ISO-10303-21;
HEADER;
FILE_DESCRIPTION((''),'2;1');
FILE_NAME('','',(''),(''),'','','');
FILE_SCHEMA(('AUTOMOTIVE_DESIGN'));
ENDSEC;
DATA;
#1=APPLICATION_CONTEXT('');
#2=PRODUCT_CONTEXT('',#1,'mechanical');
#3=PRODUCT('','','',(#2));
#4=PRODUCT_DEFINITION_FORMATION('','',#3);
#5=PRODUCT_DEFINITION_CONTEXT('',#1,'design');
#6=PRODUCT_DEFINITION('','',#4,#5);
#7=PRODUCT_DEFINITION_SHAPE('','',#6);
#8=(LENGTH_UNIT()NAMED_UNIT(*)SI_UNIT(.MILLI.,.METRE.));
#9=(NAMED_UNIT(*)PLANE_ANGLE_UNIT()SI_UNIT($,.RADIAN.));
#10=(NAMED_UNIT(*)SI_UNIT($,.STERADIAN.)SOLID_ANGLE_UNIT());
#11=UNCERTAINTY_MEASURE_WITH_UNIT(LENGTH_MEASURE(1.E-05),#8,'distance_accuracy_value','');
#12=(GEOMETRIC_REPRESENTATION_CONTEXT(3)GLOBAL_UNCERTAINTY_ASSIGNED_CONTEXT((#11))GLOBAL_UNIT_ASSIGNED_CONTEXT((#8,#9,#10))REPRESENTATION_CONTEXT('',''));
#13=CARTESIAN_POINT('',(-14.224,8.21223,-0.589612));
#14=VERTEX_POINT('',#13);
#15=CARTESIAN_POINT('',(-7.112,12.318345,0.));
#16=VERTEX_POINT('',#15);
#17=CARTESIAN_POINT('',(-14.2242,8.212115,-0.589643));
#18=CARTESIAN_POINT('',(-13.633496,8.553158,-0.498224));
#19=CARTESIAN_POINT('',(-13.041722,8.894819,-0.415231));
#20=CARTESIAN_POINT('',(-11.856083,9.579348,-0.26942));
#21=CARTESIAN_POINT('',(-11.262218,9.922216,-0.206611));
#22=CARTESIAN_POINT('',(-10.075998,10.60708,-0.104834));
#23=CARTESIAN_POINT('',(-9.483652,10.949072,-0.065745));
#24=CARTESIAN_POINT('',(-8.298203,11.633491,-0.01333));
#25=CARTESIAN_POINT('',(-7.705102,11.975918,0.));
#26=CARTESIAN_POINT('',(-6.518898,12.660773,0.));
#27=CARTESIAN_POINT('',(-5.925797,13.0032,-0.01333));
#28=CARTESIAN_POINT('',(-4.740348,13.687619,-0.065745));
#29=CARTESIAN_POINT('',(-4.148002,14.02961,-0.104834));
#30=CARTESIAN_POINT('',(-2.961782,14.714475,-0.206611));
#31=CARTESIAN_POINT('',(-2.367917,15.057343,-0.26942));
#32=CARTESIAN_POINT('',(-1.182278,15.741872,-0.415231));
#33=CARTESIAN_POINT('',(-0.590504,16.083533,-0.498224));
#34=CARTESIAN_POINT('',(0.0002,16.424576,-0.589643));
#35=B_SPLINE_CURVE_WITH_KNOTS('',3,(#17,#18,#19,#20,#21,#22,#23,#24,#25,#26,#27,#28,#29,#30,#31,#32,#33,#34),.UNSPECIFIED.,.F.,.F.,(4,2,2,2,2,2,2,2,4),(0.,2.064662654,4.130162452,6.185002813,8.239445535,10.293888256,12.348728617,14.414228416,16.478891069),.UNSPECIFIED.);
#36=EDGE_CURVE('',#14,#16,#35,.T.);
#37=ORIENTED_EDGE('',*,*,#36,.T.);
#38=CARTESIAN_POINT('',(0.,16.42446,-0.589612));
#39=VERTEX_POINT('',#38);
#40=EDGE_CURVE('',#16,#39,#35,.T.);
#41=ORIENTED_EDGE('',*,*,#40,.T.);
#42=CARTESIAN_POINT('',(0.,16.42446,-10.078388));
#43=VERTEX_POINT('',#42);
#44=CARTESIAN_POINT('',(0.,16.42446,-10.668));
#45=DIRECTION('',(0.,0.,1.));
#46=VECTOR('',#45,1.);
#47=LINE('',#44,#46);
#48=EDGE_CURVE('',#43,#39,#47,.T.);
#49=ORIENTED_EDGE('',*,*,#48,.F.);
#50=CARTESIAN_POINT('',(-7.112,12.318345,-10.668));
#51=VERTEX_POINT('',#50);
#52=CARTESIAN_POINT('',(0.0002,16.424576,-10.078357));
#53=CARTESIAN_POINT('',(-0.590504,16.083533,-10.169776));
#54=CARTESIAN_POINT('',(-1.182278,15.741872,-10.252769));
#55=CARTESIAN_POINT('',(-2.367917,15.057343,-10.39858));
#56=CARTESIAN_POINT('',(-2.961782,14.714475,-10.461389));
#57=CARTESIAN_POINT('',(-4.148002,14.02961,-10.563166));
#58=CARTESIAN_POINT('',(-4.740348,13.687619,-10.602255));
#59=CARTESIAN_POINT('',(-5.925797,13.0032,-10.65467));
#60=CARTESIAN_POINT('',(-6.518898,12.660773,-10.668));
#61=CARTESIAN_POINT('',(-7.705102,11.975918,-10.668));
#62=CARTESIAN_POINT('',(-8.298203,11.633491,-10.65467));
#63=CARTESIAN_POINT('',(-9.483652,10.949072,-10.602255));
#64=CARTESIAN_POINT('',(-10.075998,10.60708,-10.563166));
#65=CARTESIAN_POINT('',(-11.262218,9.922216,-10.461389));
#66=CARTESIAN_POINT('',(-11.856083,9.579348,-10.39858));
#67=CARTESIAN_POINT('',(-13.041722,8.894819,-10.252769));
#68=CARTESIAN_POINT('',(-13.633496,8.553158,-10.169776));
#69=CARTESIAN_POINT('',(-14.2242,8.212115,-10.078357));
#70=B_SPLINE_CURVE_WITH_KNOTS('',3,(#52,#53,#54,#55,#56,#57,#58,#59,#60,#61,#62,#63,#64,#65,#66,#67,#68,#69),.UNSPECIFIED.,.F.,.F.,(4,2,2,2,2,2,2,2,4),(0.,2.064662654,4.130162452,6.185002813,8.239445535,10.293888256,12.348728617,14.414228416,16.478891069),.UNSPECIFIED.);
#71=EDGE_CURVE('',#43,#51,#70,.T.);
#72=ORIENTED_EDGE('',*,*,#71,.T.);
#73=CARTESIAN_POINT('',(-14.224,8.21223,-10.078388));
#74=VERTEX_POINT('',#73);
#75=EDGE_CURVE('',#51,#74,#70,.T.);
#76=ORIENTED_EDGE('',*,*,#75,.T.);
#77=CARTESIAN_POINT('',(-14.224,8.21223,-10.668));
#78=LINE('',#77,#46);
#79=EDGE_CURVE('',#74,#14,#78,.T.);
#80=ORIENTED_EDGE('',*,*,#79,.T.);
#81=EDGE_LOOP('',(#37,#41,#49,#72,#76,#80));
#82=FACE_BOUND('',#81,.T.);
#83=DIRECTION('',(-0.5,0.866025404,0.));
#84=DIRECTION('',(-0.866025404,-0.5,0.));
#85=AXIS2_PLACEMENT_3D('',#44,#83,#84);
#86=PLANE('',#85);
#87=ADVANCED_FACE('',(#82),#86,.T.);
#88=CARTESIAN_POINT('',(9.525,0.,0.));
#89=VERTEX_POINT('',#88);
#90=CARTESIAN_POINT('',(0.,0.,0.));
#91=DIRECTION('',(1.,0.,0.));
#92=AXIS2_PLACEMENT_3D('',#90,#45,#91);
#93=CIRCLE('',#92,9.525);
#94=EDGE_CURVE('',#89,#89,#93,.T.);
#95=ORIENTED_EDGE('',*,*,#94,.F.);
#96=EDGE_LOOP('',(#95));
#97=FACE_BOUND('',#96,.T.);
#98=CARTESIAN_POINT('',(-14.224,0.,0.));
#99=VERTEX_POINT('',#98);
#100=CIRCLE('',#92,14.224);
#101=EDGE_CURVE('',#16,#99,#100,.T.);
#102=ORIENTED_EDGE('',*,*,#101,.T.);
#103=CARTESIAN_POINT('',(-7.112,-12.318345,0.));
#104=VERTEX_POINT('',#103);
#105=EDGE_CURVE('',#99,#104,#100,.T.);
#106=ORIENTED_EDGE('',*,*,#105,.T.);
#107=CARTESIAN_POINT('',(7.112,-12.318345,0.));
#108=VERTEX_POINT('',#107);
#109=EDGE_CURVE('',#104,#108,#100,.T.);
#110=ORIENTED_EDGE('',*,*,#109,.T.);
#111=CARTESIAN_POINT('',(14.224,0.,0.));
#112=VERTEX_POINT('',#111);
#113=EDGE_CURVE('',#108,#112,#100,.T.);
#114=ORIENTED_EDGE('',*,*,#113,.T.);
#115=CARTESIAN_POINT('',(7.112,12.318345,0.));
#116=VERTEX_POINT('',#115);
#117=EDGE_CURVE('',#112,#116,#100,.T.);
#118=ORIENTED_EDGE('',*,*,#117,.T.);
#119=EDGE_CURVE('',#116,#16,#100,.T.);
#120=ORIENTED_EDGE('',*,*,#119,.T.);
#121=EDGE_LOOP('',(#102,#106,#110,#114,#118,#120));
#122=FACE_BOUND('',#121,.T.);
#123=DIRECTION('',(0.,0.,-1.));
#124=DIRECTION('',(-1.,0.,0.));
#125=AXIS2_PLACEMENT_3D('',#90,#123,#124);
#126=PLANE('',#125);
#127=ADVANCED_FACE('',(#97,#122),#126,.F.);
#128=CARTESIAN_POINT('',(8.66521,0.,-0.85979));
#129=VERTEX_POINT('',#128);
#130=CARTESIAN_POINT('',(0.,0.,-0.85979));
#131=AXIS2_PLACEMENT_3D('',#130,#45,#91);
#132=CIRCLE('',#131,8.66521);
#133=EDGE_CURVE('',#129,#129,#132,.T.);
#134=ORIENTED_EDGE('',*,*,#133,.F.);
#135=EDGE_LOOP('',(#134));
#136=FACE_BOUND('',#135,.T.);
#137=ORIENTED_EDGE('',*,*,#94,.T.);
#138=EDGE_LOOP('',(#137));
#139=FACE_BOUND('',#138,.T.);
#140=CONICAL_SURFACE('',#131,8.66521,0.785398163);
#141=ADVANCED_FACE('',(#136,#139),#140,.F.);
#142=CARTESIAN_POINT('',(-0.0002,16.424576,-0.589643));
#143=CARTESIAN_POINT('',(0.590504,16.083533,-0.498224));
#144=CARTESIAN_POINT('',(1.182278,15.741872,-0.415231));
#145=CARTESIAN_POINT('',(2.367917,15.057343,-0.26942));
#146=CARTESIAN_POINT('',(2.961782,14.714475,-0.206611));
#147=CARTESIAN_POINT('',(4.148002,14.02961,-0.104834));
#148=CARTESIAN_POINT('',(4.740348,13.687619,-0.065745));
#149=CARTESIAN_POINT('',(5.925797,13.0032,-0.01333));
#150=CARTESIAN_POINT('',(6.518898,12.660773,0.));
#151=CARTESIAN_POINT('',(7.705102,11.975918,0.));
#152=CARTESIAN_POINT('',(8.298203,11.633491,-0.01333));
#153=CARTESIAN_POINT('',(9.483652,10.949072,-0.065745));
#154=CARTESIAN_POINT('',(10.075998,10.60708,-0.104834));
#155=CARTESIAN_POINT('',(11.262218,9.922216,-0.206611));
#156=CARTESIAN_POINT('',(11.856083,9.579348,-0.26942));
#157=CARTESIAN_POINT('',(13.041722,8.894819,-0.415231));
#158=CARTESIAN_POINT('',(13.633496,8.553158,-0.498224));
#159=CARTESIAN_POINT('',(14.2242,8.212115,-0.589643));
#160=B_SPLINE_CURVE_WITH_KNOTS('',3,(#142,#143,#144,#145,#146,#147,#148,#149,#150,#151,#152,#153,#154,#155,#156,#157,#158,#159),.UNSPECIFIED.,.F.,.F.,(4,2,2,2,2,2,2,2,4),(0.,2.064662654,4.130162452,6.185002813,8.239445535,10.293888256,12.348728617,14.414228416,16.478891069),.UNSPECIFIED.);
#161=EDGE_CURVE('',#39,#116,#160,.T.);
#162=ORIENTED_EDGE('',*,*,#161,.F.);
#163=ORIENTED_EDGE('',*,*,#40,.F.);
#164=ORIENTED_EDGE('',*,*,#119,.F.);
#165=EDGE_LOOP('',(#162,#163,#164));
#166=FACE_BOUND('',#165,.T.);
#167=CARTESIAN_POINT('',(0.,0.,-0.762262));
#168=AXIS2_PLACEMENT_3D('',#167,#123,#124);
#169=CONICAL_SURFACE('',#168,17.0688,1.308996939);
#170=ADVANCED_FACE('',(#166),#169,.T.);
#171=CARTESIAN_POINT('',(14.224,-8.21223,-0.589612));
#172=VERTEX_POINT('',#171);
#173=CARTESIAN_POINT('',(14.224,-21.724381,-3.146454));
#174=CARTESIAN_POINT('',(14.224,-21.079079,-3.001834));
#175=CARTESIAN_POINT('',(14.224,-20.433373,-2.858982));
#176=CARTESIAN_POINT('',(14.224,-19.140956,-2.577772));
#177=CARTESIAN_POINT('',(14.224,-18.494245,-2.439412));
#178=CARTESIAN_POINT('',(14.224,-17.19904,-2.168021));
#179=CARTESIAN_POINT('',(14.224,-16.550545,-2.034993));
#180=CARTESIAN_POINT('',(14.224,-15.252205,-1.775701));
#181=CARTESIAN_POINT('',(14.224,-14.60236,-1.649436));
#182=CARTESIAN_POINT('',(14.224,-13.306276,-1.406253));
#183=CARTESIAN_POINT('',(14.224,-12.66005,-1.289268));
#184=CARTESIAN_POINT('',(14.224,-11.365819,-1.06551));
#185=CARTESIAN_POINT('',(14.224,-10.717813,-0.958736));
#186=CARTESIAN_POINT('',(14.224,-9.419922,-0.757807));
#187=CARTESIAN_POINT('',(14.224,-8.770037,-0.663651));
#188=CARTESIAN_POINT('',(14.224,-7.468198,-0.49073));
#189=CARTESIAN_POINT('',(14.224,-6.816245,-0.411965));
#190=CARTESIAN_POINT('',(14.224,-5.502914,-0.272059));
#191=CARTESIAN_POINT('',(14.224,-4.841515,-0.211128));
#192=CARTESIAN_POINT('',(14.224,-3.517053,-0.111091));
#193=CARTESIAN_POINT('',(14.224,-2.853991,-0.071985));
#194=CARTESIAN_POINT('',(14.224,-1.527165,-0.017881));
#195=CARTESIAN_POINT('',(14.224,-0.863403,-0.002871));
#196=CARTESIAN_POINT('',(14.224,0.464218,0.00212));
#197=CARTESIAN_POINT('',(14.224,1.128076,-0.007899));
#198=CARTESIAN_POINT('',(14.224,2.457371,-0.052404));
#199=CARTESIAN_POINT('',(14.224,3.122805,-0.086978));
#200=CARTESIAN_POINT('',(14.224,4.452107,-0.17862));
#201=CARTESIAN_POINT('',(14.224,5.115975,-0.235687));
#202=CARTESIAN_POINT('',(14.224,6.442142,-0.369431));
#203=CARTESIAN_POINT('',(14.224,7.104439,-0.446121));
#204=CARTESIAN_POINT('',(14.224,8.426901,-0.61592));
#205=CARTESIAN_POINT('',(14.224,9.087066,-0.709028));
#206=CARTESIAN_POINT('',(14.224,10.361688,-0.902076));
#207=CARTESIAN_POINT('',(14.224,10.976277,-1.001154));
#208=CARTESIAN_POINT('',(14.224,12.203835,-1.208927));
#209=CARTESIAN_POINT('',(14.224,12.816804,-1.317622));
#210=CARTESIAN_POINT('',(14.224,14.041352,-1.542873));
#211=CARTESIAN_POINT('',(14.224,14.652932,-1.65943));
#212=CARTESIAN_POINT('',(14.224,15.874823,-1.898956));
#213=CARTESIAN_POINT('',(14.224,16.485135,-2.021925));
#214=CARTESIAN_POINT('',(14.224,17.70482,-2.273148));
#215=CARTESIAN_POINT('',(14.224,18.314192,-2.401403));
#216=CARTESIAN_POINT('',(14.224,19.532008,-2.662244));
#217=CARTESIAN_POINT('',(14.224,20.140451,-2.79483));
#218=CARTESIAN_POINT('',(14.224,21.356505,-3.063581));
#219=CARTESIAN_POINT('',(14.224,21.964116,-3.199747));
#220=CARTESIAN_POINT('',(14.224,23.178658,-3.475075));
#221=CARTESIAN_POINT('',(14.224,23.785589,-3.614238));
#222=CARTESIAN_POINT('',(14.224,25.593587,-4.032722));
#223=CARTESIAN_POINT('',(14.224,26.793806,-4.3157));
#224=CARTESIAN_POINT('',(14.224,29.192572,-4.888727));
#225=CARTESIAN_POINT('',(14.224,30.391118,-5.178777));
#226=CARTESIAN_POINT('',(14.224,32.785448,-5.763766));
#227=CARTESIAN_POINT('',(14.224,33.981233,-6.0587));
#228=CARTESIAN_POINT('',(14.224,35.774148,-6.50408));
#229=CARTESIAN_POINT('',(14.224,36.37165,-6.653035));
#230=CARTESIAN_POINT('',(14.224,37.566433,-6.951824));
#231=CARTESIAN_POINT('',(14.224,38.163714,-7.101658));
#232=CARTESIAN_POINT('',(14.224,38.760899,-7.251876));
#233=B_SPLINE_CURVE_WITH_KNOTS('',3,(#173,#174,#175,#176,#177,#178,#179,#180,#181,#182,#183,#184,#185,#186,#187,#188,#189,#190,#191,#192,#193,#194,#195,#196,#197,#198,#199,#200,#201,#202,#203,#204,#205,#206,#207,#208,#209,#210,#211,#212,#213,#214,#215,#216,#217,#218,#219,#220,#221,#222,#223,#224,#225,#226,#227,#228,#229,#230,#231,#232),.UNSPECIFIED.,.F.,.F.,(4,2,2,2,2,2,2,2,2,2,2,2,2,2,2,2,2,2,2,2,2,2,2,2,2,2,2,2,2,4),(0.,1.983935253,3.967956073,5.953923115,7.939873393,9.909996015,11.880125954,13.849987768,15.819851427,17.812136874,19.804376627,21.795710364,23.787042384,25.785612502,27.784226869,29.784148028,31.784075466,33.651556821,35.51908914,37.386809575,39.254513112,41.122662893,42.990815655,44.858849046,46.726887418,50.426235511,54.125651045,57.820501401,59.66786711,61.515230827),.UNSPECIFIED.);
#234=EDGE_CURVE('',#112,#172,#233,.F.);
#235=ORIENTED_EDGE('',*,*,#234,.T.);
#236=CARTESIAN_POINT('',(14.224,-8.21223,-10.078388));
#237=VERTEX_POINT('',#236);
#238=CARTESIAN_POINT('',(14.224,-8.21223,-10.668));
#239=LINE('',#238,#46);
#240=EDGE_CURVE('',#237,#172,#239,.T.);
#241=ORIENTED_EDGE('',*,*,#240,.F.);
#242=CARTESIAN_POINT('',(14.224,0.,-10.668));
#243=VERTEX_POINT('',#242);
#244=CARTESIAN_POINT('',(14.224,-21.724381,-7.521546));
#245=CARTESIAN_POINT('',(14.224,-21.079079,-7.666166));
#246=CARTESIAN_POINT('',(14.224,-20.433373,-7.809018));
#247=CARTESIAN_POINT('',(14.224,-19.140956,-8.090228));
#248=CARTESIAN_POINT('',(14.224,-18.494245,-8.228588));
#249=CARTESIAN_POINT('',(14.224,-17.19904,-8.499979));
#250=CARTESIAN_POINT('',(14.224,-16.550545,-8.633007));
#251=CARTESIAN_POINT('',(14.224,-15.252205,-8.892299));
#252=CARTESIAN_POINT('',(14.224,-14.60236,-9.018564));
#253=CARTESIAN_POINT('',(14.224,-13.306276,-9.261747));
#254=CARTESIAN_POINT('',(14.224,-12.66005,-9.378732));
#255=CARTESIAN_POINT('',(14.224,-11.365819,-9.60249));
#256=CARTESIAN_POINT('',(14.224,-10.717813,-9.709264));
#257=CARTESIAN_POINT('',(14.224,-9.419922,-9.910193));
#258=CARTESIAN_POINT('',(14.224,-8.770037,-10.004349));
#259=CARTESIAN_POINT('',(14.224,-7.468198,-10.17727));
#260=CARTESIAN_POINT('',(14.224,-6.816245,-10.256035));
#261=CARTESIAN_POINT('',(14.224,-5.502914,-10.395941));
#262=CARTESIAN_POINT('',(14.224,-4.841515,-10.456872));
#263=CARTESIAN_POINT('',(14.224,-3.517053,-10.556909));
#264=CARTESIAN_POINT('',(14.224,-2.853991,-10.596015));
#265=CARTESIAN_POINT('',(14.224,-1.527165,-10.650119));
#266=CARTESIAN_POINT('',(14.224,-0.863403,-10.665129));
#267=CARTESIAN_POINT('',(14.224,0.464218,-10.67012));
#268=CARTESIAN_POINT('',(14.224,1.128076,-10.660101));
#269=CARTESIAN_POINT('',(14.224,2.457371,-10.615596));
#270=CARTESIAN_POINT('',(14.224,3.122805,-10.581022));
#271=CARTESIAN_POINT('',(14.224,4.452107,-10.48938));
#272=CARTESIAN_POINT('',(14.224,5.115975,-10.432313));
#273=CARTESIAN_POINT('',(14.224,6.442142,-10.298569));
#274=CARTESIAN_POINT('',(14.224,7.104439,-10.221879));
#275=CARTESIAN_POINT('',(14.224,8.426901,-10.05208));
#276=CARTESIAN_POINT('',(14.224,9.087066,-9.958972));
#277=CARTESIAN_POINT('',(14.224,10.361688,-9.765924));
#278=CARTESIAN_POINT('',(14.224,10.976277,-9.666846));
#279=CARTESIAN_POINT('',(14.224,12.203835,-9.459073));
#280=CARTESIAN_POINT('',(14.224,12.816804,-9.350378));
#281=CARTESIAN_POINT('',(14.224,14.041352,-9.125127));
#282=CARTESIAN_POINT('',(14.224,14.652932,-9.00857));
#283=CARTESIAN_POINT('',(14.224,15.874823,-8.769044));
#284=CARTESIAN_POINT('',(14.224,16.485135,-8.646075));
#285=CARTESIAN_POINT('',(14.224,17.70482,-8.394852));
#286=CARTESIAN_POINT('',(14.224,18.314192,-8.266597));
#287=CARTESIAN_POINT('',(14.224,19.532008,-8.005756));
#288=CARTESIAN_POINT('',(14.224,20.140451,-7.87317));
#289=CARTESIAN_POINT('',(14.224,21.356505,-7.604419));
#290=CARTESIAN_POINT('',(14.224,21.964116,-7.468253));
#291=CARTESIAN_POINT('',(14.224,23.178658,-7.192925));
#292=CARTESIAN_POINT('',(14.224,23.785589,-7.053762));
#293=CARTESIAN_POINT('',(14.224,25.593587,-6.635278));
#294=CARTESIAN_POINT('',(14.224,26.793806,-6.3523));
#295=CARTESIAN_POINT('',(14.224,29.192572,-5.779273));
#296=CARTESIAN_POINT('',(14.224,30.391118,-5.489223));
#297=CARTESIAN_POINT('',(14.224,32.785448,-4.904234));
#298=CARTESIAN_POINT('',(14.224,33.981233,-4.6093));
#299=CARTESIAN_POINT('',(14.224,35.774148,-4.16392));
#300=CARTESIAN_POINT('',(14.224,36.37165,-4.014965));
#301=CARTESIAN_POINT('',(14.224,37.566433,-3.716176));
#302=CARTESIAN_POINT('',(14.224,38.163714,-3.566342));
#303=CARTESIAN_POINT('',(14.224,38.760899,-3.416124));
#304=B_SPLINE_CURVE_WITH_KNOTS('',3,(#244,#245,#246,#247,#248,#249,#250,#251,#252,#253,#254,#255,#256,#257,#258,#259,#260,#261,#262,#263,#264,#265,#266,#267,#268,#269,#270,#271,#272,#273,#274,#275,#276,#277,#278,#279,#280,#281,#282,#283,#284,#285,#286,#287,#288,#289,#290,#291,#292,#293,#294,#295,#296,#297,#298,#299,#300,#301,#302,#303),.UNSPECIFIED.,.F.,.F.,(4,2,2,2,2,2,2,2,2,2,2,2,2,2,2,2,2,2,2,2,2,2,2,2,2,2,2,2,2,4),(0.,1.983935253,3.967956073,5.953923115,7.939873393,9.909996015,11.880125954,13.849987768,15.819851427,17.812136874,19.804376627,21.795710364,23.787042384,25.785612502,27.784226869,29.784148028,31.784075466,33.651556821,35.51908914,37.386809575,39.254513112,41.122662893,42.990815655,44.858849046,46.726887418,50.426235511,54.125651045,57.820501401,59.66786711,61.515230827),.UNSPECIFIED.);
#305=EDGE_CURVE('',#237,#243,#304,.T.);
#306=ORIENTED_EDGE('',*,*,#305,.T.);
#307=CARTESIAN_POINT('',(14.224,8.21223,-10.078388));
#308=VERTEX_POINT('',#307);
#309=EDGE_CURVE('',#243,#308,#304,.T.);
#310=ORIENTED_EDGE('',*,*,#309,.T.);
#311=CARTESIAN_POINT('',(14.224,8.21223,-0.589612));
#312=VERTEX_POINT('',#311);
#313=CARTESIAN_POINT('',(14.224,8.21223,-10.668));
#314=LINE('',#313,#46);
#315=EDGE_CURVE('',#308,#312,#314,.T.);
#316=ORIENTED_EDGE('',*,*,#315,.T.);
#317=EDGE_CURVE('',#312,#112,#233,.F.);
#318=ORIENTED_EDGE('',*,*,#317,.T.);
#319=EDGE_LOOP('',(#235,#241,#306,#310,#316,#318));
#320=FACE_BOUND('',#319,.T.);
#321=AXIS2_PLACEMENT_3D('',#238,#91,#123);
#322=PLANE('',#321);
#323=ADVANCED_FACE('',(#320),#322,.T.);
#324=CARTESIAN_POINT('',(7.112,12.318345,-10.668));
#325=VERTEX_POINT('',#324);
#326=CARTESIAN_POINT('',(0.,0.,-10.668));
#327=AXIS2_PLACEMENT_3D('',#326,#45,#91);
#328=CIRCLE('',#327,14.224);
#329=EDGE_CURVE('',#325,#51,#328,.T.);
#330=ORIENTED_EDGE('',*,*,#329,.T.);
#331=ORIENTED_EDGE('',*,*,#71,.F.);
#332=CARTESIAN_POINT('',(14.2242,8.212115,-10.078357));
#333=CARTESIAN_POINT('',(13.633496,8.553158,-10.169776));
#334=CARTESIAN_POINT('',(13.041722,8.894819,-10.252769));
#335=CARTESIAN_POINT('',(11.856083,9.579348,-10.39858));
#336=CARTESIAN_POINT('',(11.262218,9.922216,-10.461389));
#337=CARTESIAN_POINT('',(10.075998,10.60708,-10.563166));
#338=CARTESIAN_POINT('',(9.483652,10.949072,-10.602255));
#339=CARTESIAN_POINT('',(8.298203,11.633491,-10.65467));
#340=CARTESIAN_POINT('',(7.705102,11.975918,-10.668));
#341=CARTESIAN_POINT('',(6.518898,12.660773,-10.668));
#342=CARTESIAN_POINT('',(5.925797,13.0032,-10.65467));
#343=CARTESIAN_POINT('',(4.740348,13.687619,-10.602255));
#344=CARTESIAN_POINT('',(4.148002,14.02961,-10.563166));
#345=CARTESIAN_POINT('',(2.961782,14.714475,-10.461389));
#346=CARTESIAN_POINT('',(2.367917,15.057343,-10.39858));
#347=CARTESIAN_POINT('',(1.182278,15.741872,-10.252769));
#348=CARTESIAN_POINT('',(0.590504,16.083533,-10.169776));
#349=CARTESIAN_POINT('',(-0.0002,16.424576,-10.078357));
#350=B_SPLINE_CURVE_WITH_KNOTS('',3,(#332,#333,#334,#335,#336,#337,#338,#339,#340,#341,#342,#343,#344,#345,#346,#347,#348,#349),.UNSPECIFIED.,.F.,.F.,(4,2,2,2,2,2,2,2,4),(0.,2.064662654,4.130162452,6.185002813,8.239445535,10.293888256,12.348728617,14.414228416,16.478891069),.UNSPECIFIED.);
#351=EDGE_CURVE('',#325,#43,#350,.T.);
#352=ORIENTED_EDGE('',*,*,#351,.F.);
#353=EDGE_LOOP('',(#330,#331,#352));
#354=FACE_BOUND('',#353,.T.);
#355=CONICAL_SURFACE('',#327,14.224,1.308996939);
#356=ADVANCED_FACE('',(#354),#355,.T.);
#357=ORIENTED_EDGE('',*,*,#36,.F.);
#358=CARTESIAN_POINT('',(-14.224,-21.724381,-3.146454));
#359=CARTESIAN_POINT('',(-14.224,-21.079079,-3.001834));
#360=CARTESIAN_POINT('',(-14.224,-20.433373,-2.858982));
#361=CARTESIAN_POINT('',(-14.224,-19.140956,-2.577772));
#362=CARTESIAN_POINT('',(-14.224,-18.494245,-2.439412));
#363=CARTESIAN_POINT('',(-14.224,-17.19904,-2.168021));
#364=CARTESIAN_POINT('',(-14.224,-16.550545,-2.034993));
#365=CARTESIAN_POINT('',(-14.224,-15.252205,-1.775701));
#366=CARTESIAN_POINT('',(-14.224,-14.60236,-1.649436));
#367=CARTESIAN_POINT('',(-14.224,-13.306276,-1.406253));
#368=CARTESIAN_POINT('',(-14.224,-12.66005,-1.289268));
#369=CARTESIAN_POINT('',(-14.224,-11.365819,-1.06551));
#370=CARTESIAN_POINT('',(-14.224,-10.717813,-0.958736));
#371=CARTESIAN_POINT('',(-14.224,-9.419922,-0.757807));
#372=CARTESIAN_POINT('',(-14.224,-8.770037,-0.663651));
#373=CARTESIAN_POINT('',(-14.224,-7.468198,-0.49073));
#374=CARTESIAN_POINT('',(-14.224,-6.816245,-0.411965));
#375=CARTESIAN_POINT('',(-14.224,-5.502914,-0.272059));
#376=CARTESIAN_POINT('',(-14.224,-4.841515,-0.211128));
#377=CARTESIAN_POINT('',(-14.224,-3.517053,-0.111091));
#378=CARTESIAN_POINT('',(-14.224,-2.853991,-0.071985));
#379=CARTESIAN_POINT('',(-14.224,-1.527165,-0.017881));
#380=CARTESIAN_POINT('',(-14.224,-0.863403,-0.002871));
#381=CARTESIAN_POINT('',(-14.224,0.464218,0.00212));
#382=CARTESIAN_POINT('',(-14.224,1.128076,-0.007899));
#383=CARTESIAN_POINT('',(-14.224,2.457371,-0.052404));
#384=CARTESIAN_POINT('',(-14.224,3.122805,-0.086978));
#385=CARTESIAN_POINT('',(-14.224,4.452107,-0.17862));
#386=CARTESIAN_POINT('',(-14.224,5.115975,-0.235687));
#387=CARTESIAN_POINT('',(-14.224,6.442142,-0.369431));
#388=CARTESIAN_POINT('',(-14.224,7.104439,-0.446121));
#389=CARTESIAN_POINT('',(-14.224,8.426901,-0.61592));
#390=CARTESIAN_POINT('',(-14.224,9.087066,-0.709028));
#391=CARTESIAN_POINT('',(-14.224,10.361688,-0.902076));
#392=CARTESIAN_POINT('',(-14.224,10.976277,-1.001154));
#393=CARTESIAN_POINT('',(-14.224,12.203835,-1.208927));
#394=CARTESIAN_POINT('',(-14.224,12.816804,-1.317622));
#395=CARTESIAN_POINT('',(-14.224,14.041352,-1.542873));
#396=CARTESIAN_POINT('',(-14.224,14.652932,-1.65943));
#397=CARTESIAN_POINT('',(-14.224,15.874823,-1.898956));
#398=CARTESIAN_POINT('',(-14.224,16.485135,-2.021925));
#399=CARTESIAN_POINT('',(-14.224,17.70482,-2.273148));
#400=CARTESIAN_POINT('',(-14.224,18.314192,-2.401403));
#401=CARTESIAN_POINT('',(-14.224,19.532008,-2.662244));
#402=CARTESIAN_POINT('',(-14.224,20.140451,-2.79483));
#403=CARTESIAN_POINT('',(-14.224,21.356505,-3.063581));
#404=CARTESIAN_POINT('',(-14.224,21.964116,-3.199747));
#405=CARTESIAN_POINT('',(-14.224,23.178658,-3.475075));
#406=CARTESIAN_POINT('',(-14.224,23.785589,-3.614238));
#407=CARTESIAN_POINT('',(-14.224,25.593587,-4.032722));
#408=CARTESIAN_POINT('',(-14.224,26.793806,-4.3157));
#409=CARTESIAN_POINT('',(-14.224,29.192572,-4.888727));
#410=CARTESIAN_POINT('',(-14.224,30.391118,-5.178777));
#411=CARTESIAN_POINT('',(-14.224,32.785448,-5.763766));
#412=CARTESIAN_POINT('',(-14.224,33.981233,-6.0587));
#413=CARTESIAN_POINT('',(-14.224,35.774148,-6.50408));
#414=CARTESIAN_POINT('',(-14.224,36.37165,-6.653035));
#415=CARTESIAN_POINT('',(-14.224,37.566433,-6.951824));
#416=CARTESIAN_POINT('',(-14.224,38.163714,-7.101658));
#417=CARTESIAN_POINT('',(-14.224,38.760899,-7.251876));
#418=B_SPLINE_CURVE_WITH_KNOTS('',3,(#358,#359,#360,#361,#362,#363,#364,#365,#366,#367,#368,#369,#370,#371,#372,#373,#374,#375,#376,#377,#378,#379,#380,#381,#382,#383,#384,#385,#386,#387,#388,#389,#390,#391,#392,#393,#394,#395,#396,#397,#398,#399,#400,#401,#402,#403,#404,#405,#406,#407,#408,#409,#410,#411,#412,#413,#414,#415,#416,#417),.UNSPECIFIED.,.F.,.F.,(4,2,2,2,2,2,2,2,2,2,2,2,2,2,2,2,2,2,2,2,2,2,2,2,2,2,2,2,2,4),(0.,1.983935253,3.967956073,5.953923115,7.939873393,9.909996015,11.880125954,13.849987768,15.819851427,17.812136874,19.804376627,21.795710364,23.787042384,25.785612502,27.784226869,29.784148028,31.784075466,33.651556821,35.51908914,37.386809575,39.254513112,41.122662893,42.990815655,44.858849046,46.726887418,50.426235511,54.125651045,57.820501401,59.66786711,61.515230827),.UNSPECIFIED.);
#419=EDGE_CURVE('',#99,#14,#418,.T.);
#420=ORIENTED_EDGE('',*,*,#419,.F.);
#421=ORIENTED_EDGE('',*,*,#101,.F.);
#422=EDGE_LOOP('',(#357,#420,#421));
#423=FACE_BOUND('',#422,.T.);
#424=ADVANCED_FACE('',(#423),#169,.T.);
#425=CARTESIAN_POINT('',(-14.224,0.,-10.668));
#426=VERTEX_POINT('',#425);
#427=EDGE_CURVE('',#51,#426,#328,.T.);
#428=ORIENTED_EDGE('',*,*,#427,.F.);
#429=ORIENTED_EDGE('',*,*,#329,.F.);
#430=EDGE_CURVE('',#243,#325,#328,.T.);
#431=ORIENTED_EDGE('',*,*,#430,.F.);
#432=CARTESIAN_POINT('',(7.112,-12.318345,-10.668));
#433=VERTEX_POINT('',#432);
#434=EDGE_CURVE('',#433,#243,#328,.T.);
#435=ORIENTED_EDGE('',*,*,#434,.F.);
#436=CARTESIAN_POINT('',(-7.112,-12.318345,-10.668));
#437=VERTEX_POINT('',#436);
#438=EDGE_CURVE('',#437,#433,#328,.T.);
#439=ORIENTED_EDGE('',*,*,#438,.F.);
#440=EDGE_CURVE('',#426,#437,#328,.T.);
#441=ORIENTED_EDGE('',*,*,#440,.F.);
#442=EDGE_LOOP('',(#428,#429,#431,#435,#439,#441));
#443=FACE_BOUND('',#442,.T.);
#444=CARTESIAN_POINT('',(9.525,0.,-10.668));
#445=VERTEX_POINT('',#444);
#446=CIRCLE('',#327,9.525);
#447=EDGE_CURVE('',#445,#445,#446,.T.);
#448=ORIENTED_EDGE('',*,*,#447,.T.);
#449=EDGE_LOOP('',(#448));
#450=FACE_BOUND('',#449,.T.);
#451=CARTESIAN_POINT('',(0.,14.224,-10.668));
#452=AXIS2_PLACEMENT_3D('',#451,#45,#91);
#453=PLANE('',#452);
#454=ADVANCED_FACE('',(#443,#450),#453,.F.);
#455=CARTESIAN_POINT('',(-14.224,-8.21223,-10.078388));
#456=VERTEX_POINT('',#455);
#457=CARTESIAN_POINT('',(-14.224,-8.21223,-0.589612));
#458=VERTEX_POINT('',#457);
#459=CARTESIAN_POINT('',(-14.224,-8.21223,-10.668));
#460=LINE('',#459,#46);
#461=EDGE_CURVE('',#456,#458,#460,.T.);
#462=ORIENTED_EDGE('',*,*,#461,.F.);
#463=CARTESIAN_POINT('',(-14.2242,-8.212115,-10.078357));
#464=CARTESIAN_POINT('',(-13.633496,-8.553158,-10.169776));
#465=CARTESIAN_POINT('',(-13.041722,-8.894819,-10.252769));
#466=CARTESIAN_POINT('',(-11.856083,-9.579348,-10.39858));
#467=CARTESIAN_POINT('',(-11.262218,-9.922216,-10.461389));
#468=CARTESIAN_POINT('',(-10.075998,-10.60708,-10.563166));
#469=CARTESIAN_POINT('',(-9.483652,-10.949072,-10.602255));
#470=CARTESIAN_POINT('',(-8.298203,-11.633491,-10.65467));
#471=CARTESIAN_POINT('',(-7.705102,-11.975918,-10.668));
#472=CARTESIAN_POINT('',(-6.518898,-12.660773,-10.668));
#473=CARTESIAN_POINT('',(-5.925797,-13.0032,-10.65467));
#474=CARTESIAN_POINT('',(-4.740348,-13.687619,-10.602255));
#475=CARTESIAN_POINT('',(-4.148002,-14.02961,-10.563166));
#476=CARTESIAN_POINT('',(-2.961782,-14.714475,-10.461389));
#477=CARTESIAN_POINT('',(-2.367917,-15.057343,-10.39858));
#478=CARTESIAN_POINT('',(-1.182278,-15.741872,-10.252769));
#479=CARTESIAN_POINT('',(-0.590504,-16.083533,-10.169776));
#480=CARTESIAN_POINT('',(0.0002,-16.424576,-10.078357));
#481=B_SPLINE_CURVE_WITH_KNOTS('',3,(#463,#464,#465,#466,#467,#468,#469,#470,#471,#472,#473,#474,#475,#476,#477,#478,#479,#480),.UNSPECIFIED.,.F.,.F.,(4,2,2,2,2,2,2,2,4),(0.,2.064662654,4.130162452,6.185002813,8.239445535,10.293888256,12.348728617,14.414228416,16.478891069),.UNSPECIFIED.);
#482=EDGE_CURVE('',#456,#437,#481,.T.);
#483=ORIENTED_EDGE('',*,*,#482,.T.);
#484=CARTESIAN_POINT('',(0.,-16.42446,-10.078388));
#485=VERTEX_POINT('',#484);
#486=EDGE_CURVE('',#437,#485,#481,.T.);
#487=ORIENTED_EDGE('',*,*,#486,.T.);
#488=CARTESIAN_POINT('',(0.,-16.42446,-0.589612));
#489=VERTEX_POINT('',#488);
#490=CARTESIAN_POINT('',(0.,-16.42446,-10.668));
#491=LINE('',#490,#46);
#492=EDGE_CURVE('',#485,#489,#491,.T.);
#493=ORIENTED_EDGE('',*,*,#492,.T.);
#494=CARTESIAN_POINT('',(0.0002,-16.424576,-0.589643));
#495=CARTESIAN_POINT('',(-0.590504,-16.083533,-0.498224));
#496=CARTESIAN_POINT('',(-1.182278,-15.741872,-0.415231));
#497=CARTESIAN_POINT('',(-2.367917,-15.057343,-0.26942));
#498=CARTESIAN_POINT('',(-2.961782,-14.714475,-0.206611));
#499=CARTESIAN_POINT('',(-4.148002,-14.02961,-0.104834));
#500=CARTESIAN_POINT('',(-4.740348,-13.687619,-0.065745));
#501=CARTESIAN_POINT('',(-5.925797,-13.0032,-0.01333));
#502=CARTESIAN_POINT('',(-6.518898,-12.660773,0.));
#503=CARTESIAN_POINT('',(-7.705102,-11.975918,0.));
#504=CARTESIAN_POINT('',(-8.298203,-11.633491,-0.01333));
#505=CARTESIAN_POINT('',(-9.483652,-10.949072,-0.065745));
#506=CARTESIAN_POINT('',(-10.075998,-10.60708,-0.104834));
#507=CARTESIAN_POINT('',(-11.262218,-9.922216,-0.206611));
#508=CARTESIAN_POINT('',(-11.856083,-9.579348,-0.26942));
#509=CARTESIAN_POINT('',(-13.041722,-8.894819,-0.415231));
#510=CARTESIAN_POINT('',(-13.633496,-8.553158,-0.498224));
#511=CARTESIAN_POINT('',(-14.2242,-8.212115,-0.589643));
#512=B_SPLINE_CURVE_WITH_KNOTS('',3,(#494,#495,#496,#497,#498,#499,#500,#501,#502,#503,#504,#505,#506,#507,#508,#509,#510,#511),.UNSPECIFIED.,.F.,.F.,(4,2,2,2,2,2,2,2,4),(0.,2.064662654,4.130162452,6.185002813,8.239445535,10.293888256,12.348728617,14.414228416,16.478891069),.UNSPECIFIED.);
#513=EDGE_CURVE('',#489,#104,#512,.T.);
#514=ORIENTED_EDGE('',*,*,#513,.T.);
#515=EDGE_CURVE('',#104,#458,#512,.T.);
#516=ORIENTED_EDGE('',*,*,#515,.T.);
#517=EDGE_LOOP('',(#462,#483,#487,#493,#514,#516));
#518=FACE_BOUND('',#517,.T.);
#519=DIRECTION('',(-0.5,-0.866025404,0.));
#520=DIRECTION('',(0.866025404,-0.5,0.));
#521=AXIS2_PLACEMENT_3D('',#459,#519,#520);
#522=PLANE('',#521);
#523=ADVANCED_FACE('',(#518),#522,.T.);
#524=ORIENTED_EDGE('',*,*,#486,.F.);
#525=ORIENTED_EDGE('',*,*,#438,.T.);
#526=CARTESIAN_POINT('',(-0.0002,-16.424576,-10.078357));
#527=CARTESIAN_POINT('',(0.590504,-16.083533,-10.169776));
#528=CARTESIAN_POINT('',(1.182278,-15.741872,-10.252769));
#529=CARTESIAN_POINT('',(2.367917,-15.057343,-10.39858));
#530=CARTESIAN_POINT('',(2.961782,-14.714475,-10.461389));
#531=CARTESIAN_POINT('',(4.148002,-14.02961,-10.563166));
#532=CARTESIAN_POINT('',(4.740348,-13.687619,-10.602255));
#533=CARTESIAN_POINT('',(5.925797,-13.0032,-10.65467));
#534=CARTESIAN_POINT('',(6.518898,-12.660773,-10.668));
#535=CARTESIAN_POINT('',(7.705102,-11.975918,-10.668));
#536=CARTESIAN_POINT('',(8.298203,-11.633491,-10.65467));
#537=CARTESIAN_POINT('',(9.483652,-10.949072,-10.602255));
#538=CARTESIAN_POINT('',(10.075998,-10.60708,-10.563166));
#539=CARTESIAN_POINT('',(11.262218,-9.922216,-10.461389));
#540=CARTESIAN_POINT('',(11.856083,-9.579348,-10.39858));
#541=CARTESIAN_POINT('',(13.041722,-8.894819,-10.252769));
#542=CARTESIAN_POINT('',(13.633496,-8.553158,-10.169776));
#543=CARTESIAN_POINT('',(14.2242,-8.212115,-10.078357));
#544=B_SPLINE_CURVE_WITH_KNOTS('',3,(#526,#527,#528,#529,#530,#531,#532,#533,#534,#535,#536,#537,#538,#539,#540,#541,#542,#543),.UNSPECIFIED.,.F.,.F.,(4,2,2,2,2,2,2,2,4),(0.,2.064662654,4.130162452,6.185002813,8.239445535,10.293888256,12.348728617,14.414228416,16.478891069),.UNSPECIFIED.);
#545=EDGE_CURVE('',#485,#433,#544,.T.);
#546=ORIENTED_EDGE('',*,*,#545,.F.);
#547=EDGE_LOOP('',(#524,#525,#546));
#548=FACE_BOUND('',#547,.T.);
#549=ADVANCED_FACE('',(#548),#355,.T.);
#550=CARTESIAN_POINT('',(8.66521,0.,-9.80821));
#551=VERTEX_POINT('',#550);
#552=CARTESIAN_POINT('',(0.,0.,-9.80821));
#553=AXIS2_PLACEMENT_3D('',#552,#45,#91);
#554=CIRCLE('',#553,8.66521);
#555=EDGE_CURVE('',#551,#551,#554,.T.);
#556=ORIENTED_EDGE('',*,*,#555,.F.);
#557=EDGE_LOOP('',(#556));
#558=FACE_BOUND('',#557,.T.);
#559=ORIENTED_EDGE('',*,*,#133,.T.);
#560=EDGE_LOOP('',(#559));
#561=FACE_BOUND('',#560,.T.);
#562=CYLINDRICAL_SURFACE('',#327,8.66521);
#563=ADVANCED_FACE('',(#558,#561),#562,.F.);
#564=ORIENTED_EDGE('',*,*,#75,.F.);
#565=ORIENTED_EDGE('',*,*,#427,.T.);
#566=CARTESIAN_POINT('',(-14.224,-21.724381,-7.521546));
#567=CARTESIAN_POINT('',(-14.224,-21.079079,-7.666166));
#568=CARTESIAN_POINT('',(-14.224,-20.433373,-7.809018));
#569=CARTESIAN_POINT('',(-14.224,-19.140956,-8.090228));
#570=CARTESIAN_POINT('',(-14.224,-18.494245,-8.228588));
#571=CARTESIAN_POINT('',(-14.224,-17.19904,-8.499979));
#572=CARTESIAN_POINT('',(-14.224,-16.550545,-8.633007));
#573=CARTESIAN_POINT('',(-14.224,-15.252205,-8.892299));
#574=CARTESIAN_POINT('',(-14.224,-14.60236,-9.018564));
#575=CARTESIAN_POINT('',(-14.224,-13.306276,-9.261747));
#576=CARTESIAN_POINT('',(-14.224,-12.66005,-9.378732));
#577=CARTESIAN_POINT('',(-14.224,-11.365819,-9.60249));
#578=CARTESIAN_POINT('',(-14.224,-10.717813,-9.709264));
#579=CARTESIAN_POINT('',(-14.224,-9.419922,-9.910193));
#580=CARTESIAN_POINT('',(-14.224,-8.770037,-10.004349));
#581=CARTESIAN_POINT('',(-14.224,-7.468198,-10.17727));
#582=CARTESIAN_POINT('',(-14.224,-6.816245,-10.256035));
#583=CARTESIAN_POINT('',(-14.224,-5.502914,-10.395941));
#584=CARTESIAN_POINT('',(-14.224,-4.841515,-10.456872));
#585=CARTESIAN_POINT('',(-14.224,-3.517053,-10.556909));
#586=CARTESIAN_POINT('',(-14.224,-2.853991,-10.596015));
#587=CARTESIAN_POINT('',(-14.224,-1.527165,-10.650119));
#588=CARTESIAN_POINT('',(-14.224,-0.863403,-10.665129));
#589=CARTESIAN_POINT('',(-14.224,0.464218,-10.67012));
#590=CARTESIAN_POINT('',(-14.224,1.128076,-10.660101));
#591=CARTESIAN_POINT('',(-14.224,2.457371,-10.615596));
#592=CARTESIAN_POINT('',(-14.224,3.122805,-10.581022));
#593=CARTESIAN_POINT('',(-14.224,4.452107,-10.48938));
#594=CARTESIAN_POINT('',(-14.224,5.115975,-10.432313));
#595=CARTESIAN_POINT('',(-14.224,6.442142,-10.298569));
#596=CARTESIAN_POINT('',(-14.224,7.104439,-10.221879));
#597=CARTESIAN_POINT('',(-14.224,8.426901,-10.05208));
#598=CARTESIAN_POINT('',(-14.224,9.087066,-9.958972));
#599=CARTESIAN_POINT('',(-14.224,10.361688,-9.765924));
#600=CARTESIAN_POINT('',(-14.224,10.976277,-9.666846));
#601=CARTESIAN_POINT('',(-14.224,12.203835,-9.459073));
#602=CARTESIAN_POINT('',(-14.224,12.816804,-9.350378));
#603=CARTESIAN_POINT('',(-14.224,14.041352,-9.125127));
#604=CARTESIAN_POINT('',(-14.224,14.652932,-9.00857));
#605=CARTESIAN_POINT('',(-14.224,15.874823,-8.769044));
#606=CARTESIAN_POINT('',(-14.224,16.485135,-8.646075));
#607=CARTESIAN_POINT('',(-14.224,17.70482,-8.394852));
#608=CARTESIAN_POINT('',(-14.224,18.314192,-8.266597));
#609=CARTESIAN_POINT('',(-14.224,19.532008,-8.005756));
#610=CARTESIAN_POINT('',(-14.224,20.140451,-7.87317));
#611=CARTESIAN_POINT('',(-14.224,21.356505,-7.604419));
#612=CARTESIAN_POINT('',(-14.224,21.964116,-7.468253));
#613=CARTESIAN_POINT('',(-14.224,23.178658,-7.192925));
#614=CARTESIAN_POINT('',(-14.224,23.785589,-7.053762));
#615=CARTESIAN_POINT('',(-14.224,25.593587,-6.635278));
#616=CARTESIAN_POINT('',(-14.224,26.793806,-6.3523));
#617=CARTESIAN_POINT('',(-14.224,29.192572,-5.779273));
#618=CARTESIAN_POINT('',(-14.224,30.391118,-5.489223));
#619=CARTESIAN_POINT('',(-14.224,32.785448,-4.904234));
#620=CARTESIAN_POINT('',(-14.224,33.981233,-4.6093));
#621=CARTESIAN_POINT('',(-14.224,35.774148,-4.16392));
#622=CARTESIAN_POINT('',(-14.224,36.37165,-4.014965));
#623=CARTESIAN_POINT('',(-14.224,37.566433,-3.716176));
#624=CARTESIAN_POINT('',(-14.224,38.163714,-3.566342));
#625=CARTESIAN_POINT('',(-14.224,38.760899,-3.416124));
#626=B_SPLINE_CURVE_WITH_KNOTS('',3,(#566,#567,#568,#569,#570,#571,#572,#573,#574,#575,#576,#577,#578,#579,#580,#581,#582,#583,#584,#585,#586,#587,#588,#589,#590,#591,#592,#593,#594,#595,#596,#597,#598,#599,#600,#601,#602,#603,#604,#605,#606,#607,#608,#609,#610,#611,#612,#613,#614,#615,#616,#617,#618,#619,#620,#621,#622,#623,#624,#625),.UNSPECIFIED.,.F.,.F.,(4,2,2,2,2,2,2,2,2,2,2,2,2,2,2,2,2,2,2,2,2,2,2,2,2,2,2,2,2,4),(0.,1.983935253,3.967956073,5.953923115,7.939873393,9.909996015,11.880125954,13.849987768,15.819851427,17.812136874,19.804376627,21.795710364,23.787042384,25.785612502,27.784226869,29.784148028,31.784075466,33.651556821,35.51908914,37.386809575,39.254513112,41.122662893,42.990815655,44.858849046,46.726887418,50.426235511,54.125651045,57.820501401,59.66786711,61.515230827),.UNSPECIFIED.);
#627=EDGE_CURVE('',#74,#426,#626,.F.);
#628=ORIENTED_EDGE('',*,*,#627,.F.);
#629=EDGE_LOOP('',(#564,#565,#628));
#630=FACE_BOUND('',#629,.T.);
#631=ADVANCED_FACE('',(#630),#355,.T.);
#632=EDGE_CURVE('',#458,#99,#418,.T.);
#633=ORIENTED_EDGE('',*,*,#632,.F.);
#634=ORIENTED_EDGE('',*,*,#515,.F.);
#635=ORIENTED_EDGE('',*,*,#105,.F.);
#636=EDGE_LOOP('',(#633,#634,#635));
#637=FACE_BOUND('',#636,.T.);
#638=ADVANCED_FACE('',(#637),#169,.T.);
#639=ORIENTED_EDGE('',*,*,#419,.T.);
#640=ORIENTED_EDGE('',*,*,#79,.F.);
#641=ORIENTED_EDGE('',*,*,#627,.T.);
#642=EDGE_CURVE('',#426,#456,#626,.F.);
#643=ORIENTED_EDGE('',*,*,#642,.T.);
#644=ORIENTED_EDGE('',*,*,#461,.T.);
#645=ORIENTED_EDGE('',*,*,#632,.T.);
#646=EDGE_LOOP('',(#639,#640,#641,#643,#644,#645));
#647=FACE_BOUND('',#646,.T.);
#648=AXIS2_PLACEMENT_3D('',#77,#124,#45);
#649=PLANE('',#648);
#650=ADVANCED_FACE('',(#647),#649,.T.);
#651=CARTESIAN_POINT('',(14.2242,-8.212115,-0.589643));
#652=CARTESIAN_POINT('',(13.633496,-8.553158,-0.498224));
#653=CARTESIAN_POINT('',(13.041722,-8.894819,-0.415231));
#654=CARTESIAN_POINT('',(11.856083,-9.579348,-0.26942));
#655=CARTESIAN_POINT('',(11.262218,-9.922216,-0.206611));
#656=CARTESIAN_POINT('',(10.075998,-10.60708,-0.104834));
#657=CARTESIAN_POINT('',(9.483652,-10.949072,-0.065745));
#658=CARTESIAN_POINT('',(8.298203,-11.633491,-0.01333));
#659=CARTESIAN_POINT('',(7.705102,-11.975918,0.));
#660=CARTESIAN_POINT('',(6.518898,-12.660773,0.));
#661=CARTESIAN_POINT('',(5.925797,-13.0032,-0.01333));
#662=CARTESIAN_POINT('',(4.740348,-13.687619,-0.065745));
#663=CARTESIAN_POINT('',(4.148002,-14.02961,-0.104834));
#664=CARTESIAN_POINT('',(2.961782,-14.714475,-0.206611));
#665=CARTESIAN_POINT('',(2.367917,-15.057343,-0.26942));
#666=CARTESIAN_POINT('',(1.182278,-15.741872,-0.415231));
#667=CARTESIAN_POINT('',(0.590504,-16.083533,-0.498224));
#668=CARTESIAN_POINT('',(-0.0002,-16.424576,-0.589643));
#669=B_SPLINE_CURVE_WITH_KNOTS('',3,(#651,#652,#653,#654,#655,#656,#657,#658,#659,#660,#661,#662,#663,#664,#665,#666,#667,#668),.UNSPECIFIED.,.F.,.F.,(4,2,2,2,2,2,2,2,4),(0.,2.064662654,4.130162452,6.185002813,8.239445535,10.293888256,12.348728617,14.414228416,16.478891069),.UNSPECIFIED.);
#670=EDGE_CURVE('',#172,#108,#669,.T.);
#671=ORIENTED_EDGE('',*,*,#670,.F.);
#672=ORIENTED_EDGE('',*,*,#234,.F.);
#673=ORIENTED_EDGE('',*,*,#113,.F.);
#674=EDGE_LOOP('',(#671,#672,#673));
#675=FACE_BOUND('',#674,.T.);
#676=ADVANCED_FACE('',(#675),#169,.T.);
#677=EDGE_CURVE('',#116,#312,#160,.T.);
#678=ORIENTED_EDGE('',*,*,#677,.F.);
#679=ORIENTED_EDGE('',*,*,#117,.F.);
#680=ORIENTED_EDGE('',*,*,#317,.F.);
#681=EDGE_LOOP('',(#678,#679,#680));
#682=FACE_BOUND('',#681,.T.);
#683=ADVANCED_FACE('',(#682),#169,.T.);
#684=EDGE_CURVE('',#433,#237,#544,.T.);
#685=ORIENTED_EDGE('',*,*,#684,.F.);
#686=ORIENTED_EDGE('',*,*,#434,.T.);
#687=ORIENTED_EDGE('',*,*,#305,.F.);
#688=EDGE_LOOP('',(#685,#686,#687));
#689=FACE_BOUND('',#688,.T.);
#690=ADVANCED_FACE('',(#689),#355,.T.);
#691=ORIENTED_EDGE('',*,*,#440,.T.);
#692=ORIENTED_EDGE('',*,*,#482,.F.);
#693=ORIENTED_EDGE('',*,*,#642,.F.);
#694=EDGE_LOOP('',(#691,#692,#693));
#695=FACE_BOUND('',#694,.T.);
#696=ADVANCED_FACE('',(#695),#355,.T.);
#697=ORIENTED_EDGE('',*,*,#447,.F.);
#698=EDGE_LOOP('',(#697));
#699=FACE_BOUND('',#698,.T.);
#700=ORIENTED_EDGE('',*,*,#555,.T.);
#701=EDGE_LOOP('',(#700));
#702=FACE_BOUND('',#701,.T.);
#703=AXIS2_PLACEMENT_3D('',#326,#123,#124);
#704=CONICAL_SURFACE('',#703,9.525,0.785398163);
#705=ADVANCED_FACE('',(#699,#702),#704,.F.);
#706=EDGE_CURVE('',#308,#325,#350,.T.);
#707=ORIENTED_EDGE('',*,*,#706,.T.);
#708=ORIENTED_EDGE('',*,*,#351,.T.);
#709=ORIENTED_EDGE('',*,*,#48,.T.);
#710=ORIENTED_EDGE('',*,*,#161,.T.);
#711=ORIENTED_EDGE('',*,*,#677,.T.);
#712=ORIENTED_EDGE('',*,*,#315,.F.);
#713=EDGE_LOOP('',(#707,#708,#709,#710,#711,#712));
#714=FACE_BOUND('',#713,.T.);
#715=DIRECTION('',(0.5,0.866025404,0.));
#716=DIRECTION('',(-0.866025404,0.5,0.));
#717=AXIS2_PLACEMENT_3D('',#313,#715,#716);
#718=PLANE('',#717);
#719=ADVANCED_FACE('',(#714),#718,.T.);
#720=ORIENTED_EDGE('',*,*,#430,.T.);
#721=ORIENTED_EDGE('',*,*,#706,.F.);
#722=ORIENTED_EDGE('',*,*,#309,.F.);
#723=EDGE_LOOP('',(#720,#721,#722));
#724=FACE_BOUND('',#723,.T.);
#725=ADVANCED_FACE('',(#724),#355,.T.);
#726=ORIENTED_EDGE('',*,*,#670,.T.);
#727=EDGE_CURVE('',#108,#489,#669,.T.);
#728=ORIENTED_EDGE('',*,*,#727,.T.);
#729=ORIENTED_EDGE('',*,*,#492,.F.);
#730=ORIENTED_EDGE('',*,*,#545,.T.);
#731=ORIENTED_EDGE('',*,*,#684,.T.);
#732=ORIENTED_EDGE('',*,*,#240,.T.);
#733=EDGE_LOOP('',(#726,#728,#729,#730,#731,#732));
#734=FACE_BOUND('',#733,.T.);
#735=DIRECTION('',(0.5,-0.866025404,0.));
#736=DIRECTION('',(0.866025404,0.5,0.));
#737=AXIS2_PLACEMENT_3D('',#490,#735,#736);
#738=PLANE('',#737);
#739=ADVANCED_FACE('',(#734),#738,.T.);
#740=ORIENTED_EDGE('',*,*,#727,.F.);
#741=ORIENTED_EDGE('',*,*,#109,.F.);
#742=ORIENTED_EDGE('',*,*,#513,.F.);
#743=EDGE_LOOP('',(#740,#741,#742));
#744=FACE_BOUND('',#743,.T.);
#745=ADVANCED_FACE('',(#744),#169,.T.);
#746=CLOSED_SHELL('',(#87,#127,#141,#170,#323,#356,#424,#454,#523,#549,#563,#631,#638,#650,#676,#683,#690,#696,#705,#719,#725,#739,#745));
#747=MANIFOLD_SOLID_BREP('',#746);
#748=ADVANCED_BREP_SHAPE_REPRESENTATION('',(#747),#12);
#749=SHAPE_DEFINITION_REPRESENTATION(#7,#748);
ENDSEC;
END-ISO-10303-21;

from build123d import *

# Parameters (mm, degrees)
SKETCH2_W          = 56.896
SKETCH2_H          = 56.896
CUT_EXTRUDE1_DEPTH = 10.668


with BuildPart() as part:
    # Sketch1 → Revolve1 (revolve)
    with BuildSketch(Plane(origin=(0, 0, 0), x_dir=(0, 0, -1), z_dir=(1, 0, 0))):
        Polygon((0, 0), (0, 14.224), (0.762261863, 17.0688), (9.905738137, 17.0688), (10.668, 14.224), (10.668, 0), align=None)
    revolve(axis=Axis((0, 0, -10.668), (0, 0, 1)))

    # Sketch2 → Cut-Extrude1 (cut)
    with BuildSketch(Plane.XY):
        Rectangle(SKETCH2_W, SKETCH2_H)
        Polygon((-14.224, 8.212230229), (-14.224, -8.212230229), (0, -16.424460458), (14.224, -8.212230229), (14.224, 8.212230229), (0, 16.424460458), align=None, mode=Mode.SUBTRACT)
    extrude(amount=-CUT_EXTRUDE1_DEPTH, mode=Mode.SUBTRACT)

    # Sketch3 → Cut-Revolve1 (revolve, cut)
    with BuildSketch(Plane(origin=(0, 0, 0), x_dir=(0, 0, -1), z_dir=(1, 0, 0))):
        Polygon((0, 0), (0, 9.525), (0.85979, 8.66521), (9.80821, 8.66521), (10.668, 9.525), (10.668, 0), align=None)
    revolve(axis=Axis((0, 0, -10.668), (0, 0, 1)), mode=Mode.SUBTRACT)


solid = part.part
